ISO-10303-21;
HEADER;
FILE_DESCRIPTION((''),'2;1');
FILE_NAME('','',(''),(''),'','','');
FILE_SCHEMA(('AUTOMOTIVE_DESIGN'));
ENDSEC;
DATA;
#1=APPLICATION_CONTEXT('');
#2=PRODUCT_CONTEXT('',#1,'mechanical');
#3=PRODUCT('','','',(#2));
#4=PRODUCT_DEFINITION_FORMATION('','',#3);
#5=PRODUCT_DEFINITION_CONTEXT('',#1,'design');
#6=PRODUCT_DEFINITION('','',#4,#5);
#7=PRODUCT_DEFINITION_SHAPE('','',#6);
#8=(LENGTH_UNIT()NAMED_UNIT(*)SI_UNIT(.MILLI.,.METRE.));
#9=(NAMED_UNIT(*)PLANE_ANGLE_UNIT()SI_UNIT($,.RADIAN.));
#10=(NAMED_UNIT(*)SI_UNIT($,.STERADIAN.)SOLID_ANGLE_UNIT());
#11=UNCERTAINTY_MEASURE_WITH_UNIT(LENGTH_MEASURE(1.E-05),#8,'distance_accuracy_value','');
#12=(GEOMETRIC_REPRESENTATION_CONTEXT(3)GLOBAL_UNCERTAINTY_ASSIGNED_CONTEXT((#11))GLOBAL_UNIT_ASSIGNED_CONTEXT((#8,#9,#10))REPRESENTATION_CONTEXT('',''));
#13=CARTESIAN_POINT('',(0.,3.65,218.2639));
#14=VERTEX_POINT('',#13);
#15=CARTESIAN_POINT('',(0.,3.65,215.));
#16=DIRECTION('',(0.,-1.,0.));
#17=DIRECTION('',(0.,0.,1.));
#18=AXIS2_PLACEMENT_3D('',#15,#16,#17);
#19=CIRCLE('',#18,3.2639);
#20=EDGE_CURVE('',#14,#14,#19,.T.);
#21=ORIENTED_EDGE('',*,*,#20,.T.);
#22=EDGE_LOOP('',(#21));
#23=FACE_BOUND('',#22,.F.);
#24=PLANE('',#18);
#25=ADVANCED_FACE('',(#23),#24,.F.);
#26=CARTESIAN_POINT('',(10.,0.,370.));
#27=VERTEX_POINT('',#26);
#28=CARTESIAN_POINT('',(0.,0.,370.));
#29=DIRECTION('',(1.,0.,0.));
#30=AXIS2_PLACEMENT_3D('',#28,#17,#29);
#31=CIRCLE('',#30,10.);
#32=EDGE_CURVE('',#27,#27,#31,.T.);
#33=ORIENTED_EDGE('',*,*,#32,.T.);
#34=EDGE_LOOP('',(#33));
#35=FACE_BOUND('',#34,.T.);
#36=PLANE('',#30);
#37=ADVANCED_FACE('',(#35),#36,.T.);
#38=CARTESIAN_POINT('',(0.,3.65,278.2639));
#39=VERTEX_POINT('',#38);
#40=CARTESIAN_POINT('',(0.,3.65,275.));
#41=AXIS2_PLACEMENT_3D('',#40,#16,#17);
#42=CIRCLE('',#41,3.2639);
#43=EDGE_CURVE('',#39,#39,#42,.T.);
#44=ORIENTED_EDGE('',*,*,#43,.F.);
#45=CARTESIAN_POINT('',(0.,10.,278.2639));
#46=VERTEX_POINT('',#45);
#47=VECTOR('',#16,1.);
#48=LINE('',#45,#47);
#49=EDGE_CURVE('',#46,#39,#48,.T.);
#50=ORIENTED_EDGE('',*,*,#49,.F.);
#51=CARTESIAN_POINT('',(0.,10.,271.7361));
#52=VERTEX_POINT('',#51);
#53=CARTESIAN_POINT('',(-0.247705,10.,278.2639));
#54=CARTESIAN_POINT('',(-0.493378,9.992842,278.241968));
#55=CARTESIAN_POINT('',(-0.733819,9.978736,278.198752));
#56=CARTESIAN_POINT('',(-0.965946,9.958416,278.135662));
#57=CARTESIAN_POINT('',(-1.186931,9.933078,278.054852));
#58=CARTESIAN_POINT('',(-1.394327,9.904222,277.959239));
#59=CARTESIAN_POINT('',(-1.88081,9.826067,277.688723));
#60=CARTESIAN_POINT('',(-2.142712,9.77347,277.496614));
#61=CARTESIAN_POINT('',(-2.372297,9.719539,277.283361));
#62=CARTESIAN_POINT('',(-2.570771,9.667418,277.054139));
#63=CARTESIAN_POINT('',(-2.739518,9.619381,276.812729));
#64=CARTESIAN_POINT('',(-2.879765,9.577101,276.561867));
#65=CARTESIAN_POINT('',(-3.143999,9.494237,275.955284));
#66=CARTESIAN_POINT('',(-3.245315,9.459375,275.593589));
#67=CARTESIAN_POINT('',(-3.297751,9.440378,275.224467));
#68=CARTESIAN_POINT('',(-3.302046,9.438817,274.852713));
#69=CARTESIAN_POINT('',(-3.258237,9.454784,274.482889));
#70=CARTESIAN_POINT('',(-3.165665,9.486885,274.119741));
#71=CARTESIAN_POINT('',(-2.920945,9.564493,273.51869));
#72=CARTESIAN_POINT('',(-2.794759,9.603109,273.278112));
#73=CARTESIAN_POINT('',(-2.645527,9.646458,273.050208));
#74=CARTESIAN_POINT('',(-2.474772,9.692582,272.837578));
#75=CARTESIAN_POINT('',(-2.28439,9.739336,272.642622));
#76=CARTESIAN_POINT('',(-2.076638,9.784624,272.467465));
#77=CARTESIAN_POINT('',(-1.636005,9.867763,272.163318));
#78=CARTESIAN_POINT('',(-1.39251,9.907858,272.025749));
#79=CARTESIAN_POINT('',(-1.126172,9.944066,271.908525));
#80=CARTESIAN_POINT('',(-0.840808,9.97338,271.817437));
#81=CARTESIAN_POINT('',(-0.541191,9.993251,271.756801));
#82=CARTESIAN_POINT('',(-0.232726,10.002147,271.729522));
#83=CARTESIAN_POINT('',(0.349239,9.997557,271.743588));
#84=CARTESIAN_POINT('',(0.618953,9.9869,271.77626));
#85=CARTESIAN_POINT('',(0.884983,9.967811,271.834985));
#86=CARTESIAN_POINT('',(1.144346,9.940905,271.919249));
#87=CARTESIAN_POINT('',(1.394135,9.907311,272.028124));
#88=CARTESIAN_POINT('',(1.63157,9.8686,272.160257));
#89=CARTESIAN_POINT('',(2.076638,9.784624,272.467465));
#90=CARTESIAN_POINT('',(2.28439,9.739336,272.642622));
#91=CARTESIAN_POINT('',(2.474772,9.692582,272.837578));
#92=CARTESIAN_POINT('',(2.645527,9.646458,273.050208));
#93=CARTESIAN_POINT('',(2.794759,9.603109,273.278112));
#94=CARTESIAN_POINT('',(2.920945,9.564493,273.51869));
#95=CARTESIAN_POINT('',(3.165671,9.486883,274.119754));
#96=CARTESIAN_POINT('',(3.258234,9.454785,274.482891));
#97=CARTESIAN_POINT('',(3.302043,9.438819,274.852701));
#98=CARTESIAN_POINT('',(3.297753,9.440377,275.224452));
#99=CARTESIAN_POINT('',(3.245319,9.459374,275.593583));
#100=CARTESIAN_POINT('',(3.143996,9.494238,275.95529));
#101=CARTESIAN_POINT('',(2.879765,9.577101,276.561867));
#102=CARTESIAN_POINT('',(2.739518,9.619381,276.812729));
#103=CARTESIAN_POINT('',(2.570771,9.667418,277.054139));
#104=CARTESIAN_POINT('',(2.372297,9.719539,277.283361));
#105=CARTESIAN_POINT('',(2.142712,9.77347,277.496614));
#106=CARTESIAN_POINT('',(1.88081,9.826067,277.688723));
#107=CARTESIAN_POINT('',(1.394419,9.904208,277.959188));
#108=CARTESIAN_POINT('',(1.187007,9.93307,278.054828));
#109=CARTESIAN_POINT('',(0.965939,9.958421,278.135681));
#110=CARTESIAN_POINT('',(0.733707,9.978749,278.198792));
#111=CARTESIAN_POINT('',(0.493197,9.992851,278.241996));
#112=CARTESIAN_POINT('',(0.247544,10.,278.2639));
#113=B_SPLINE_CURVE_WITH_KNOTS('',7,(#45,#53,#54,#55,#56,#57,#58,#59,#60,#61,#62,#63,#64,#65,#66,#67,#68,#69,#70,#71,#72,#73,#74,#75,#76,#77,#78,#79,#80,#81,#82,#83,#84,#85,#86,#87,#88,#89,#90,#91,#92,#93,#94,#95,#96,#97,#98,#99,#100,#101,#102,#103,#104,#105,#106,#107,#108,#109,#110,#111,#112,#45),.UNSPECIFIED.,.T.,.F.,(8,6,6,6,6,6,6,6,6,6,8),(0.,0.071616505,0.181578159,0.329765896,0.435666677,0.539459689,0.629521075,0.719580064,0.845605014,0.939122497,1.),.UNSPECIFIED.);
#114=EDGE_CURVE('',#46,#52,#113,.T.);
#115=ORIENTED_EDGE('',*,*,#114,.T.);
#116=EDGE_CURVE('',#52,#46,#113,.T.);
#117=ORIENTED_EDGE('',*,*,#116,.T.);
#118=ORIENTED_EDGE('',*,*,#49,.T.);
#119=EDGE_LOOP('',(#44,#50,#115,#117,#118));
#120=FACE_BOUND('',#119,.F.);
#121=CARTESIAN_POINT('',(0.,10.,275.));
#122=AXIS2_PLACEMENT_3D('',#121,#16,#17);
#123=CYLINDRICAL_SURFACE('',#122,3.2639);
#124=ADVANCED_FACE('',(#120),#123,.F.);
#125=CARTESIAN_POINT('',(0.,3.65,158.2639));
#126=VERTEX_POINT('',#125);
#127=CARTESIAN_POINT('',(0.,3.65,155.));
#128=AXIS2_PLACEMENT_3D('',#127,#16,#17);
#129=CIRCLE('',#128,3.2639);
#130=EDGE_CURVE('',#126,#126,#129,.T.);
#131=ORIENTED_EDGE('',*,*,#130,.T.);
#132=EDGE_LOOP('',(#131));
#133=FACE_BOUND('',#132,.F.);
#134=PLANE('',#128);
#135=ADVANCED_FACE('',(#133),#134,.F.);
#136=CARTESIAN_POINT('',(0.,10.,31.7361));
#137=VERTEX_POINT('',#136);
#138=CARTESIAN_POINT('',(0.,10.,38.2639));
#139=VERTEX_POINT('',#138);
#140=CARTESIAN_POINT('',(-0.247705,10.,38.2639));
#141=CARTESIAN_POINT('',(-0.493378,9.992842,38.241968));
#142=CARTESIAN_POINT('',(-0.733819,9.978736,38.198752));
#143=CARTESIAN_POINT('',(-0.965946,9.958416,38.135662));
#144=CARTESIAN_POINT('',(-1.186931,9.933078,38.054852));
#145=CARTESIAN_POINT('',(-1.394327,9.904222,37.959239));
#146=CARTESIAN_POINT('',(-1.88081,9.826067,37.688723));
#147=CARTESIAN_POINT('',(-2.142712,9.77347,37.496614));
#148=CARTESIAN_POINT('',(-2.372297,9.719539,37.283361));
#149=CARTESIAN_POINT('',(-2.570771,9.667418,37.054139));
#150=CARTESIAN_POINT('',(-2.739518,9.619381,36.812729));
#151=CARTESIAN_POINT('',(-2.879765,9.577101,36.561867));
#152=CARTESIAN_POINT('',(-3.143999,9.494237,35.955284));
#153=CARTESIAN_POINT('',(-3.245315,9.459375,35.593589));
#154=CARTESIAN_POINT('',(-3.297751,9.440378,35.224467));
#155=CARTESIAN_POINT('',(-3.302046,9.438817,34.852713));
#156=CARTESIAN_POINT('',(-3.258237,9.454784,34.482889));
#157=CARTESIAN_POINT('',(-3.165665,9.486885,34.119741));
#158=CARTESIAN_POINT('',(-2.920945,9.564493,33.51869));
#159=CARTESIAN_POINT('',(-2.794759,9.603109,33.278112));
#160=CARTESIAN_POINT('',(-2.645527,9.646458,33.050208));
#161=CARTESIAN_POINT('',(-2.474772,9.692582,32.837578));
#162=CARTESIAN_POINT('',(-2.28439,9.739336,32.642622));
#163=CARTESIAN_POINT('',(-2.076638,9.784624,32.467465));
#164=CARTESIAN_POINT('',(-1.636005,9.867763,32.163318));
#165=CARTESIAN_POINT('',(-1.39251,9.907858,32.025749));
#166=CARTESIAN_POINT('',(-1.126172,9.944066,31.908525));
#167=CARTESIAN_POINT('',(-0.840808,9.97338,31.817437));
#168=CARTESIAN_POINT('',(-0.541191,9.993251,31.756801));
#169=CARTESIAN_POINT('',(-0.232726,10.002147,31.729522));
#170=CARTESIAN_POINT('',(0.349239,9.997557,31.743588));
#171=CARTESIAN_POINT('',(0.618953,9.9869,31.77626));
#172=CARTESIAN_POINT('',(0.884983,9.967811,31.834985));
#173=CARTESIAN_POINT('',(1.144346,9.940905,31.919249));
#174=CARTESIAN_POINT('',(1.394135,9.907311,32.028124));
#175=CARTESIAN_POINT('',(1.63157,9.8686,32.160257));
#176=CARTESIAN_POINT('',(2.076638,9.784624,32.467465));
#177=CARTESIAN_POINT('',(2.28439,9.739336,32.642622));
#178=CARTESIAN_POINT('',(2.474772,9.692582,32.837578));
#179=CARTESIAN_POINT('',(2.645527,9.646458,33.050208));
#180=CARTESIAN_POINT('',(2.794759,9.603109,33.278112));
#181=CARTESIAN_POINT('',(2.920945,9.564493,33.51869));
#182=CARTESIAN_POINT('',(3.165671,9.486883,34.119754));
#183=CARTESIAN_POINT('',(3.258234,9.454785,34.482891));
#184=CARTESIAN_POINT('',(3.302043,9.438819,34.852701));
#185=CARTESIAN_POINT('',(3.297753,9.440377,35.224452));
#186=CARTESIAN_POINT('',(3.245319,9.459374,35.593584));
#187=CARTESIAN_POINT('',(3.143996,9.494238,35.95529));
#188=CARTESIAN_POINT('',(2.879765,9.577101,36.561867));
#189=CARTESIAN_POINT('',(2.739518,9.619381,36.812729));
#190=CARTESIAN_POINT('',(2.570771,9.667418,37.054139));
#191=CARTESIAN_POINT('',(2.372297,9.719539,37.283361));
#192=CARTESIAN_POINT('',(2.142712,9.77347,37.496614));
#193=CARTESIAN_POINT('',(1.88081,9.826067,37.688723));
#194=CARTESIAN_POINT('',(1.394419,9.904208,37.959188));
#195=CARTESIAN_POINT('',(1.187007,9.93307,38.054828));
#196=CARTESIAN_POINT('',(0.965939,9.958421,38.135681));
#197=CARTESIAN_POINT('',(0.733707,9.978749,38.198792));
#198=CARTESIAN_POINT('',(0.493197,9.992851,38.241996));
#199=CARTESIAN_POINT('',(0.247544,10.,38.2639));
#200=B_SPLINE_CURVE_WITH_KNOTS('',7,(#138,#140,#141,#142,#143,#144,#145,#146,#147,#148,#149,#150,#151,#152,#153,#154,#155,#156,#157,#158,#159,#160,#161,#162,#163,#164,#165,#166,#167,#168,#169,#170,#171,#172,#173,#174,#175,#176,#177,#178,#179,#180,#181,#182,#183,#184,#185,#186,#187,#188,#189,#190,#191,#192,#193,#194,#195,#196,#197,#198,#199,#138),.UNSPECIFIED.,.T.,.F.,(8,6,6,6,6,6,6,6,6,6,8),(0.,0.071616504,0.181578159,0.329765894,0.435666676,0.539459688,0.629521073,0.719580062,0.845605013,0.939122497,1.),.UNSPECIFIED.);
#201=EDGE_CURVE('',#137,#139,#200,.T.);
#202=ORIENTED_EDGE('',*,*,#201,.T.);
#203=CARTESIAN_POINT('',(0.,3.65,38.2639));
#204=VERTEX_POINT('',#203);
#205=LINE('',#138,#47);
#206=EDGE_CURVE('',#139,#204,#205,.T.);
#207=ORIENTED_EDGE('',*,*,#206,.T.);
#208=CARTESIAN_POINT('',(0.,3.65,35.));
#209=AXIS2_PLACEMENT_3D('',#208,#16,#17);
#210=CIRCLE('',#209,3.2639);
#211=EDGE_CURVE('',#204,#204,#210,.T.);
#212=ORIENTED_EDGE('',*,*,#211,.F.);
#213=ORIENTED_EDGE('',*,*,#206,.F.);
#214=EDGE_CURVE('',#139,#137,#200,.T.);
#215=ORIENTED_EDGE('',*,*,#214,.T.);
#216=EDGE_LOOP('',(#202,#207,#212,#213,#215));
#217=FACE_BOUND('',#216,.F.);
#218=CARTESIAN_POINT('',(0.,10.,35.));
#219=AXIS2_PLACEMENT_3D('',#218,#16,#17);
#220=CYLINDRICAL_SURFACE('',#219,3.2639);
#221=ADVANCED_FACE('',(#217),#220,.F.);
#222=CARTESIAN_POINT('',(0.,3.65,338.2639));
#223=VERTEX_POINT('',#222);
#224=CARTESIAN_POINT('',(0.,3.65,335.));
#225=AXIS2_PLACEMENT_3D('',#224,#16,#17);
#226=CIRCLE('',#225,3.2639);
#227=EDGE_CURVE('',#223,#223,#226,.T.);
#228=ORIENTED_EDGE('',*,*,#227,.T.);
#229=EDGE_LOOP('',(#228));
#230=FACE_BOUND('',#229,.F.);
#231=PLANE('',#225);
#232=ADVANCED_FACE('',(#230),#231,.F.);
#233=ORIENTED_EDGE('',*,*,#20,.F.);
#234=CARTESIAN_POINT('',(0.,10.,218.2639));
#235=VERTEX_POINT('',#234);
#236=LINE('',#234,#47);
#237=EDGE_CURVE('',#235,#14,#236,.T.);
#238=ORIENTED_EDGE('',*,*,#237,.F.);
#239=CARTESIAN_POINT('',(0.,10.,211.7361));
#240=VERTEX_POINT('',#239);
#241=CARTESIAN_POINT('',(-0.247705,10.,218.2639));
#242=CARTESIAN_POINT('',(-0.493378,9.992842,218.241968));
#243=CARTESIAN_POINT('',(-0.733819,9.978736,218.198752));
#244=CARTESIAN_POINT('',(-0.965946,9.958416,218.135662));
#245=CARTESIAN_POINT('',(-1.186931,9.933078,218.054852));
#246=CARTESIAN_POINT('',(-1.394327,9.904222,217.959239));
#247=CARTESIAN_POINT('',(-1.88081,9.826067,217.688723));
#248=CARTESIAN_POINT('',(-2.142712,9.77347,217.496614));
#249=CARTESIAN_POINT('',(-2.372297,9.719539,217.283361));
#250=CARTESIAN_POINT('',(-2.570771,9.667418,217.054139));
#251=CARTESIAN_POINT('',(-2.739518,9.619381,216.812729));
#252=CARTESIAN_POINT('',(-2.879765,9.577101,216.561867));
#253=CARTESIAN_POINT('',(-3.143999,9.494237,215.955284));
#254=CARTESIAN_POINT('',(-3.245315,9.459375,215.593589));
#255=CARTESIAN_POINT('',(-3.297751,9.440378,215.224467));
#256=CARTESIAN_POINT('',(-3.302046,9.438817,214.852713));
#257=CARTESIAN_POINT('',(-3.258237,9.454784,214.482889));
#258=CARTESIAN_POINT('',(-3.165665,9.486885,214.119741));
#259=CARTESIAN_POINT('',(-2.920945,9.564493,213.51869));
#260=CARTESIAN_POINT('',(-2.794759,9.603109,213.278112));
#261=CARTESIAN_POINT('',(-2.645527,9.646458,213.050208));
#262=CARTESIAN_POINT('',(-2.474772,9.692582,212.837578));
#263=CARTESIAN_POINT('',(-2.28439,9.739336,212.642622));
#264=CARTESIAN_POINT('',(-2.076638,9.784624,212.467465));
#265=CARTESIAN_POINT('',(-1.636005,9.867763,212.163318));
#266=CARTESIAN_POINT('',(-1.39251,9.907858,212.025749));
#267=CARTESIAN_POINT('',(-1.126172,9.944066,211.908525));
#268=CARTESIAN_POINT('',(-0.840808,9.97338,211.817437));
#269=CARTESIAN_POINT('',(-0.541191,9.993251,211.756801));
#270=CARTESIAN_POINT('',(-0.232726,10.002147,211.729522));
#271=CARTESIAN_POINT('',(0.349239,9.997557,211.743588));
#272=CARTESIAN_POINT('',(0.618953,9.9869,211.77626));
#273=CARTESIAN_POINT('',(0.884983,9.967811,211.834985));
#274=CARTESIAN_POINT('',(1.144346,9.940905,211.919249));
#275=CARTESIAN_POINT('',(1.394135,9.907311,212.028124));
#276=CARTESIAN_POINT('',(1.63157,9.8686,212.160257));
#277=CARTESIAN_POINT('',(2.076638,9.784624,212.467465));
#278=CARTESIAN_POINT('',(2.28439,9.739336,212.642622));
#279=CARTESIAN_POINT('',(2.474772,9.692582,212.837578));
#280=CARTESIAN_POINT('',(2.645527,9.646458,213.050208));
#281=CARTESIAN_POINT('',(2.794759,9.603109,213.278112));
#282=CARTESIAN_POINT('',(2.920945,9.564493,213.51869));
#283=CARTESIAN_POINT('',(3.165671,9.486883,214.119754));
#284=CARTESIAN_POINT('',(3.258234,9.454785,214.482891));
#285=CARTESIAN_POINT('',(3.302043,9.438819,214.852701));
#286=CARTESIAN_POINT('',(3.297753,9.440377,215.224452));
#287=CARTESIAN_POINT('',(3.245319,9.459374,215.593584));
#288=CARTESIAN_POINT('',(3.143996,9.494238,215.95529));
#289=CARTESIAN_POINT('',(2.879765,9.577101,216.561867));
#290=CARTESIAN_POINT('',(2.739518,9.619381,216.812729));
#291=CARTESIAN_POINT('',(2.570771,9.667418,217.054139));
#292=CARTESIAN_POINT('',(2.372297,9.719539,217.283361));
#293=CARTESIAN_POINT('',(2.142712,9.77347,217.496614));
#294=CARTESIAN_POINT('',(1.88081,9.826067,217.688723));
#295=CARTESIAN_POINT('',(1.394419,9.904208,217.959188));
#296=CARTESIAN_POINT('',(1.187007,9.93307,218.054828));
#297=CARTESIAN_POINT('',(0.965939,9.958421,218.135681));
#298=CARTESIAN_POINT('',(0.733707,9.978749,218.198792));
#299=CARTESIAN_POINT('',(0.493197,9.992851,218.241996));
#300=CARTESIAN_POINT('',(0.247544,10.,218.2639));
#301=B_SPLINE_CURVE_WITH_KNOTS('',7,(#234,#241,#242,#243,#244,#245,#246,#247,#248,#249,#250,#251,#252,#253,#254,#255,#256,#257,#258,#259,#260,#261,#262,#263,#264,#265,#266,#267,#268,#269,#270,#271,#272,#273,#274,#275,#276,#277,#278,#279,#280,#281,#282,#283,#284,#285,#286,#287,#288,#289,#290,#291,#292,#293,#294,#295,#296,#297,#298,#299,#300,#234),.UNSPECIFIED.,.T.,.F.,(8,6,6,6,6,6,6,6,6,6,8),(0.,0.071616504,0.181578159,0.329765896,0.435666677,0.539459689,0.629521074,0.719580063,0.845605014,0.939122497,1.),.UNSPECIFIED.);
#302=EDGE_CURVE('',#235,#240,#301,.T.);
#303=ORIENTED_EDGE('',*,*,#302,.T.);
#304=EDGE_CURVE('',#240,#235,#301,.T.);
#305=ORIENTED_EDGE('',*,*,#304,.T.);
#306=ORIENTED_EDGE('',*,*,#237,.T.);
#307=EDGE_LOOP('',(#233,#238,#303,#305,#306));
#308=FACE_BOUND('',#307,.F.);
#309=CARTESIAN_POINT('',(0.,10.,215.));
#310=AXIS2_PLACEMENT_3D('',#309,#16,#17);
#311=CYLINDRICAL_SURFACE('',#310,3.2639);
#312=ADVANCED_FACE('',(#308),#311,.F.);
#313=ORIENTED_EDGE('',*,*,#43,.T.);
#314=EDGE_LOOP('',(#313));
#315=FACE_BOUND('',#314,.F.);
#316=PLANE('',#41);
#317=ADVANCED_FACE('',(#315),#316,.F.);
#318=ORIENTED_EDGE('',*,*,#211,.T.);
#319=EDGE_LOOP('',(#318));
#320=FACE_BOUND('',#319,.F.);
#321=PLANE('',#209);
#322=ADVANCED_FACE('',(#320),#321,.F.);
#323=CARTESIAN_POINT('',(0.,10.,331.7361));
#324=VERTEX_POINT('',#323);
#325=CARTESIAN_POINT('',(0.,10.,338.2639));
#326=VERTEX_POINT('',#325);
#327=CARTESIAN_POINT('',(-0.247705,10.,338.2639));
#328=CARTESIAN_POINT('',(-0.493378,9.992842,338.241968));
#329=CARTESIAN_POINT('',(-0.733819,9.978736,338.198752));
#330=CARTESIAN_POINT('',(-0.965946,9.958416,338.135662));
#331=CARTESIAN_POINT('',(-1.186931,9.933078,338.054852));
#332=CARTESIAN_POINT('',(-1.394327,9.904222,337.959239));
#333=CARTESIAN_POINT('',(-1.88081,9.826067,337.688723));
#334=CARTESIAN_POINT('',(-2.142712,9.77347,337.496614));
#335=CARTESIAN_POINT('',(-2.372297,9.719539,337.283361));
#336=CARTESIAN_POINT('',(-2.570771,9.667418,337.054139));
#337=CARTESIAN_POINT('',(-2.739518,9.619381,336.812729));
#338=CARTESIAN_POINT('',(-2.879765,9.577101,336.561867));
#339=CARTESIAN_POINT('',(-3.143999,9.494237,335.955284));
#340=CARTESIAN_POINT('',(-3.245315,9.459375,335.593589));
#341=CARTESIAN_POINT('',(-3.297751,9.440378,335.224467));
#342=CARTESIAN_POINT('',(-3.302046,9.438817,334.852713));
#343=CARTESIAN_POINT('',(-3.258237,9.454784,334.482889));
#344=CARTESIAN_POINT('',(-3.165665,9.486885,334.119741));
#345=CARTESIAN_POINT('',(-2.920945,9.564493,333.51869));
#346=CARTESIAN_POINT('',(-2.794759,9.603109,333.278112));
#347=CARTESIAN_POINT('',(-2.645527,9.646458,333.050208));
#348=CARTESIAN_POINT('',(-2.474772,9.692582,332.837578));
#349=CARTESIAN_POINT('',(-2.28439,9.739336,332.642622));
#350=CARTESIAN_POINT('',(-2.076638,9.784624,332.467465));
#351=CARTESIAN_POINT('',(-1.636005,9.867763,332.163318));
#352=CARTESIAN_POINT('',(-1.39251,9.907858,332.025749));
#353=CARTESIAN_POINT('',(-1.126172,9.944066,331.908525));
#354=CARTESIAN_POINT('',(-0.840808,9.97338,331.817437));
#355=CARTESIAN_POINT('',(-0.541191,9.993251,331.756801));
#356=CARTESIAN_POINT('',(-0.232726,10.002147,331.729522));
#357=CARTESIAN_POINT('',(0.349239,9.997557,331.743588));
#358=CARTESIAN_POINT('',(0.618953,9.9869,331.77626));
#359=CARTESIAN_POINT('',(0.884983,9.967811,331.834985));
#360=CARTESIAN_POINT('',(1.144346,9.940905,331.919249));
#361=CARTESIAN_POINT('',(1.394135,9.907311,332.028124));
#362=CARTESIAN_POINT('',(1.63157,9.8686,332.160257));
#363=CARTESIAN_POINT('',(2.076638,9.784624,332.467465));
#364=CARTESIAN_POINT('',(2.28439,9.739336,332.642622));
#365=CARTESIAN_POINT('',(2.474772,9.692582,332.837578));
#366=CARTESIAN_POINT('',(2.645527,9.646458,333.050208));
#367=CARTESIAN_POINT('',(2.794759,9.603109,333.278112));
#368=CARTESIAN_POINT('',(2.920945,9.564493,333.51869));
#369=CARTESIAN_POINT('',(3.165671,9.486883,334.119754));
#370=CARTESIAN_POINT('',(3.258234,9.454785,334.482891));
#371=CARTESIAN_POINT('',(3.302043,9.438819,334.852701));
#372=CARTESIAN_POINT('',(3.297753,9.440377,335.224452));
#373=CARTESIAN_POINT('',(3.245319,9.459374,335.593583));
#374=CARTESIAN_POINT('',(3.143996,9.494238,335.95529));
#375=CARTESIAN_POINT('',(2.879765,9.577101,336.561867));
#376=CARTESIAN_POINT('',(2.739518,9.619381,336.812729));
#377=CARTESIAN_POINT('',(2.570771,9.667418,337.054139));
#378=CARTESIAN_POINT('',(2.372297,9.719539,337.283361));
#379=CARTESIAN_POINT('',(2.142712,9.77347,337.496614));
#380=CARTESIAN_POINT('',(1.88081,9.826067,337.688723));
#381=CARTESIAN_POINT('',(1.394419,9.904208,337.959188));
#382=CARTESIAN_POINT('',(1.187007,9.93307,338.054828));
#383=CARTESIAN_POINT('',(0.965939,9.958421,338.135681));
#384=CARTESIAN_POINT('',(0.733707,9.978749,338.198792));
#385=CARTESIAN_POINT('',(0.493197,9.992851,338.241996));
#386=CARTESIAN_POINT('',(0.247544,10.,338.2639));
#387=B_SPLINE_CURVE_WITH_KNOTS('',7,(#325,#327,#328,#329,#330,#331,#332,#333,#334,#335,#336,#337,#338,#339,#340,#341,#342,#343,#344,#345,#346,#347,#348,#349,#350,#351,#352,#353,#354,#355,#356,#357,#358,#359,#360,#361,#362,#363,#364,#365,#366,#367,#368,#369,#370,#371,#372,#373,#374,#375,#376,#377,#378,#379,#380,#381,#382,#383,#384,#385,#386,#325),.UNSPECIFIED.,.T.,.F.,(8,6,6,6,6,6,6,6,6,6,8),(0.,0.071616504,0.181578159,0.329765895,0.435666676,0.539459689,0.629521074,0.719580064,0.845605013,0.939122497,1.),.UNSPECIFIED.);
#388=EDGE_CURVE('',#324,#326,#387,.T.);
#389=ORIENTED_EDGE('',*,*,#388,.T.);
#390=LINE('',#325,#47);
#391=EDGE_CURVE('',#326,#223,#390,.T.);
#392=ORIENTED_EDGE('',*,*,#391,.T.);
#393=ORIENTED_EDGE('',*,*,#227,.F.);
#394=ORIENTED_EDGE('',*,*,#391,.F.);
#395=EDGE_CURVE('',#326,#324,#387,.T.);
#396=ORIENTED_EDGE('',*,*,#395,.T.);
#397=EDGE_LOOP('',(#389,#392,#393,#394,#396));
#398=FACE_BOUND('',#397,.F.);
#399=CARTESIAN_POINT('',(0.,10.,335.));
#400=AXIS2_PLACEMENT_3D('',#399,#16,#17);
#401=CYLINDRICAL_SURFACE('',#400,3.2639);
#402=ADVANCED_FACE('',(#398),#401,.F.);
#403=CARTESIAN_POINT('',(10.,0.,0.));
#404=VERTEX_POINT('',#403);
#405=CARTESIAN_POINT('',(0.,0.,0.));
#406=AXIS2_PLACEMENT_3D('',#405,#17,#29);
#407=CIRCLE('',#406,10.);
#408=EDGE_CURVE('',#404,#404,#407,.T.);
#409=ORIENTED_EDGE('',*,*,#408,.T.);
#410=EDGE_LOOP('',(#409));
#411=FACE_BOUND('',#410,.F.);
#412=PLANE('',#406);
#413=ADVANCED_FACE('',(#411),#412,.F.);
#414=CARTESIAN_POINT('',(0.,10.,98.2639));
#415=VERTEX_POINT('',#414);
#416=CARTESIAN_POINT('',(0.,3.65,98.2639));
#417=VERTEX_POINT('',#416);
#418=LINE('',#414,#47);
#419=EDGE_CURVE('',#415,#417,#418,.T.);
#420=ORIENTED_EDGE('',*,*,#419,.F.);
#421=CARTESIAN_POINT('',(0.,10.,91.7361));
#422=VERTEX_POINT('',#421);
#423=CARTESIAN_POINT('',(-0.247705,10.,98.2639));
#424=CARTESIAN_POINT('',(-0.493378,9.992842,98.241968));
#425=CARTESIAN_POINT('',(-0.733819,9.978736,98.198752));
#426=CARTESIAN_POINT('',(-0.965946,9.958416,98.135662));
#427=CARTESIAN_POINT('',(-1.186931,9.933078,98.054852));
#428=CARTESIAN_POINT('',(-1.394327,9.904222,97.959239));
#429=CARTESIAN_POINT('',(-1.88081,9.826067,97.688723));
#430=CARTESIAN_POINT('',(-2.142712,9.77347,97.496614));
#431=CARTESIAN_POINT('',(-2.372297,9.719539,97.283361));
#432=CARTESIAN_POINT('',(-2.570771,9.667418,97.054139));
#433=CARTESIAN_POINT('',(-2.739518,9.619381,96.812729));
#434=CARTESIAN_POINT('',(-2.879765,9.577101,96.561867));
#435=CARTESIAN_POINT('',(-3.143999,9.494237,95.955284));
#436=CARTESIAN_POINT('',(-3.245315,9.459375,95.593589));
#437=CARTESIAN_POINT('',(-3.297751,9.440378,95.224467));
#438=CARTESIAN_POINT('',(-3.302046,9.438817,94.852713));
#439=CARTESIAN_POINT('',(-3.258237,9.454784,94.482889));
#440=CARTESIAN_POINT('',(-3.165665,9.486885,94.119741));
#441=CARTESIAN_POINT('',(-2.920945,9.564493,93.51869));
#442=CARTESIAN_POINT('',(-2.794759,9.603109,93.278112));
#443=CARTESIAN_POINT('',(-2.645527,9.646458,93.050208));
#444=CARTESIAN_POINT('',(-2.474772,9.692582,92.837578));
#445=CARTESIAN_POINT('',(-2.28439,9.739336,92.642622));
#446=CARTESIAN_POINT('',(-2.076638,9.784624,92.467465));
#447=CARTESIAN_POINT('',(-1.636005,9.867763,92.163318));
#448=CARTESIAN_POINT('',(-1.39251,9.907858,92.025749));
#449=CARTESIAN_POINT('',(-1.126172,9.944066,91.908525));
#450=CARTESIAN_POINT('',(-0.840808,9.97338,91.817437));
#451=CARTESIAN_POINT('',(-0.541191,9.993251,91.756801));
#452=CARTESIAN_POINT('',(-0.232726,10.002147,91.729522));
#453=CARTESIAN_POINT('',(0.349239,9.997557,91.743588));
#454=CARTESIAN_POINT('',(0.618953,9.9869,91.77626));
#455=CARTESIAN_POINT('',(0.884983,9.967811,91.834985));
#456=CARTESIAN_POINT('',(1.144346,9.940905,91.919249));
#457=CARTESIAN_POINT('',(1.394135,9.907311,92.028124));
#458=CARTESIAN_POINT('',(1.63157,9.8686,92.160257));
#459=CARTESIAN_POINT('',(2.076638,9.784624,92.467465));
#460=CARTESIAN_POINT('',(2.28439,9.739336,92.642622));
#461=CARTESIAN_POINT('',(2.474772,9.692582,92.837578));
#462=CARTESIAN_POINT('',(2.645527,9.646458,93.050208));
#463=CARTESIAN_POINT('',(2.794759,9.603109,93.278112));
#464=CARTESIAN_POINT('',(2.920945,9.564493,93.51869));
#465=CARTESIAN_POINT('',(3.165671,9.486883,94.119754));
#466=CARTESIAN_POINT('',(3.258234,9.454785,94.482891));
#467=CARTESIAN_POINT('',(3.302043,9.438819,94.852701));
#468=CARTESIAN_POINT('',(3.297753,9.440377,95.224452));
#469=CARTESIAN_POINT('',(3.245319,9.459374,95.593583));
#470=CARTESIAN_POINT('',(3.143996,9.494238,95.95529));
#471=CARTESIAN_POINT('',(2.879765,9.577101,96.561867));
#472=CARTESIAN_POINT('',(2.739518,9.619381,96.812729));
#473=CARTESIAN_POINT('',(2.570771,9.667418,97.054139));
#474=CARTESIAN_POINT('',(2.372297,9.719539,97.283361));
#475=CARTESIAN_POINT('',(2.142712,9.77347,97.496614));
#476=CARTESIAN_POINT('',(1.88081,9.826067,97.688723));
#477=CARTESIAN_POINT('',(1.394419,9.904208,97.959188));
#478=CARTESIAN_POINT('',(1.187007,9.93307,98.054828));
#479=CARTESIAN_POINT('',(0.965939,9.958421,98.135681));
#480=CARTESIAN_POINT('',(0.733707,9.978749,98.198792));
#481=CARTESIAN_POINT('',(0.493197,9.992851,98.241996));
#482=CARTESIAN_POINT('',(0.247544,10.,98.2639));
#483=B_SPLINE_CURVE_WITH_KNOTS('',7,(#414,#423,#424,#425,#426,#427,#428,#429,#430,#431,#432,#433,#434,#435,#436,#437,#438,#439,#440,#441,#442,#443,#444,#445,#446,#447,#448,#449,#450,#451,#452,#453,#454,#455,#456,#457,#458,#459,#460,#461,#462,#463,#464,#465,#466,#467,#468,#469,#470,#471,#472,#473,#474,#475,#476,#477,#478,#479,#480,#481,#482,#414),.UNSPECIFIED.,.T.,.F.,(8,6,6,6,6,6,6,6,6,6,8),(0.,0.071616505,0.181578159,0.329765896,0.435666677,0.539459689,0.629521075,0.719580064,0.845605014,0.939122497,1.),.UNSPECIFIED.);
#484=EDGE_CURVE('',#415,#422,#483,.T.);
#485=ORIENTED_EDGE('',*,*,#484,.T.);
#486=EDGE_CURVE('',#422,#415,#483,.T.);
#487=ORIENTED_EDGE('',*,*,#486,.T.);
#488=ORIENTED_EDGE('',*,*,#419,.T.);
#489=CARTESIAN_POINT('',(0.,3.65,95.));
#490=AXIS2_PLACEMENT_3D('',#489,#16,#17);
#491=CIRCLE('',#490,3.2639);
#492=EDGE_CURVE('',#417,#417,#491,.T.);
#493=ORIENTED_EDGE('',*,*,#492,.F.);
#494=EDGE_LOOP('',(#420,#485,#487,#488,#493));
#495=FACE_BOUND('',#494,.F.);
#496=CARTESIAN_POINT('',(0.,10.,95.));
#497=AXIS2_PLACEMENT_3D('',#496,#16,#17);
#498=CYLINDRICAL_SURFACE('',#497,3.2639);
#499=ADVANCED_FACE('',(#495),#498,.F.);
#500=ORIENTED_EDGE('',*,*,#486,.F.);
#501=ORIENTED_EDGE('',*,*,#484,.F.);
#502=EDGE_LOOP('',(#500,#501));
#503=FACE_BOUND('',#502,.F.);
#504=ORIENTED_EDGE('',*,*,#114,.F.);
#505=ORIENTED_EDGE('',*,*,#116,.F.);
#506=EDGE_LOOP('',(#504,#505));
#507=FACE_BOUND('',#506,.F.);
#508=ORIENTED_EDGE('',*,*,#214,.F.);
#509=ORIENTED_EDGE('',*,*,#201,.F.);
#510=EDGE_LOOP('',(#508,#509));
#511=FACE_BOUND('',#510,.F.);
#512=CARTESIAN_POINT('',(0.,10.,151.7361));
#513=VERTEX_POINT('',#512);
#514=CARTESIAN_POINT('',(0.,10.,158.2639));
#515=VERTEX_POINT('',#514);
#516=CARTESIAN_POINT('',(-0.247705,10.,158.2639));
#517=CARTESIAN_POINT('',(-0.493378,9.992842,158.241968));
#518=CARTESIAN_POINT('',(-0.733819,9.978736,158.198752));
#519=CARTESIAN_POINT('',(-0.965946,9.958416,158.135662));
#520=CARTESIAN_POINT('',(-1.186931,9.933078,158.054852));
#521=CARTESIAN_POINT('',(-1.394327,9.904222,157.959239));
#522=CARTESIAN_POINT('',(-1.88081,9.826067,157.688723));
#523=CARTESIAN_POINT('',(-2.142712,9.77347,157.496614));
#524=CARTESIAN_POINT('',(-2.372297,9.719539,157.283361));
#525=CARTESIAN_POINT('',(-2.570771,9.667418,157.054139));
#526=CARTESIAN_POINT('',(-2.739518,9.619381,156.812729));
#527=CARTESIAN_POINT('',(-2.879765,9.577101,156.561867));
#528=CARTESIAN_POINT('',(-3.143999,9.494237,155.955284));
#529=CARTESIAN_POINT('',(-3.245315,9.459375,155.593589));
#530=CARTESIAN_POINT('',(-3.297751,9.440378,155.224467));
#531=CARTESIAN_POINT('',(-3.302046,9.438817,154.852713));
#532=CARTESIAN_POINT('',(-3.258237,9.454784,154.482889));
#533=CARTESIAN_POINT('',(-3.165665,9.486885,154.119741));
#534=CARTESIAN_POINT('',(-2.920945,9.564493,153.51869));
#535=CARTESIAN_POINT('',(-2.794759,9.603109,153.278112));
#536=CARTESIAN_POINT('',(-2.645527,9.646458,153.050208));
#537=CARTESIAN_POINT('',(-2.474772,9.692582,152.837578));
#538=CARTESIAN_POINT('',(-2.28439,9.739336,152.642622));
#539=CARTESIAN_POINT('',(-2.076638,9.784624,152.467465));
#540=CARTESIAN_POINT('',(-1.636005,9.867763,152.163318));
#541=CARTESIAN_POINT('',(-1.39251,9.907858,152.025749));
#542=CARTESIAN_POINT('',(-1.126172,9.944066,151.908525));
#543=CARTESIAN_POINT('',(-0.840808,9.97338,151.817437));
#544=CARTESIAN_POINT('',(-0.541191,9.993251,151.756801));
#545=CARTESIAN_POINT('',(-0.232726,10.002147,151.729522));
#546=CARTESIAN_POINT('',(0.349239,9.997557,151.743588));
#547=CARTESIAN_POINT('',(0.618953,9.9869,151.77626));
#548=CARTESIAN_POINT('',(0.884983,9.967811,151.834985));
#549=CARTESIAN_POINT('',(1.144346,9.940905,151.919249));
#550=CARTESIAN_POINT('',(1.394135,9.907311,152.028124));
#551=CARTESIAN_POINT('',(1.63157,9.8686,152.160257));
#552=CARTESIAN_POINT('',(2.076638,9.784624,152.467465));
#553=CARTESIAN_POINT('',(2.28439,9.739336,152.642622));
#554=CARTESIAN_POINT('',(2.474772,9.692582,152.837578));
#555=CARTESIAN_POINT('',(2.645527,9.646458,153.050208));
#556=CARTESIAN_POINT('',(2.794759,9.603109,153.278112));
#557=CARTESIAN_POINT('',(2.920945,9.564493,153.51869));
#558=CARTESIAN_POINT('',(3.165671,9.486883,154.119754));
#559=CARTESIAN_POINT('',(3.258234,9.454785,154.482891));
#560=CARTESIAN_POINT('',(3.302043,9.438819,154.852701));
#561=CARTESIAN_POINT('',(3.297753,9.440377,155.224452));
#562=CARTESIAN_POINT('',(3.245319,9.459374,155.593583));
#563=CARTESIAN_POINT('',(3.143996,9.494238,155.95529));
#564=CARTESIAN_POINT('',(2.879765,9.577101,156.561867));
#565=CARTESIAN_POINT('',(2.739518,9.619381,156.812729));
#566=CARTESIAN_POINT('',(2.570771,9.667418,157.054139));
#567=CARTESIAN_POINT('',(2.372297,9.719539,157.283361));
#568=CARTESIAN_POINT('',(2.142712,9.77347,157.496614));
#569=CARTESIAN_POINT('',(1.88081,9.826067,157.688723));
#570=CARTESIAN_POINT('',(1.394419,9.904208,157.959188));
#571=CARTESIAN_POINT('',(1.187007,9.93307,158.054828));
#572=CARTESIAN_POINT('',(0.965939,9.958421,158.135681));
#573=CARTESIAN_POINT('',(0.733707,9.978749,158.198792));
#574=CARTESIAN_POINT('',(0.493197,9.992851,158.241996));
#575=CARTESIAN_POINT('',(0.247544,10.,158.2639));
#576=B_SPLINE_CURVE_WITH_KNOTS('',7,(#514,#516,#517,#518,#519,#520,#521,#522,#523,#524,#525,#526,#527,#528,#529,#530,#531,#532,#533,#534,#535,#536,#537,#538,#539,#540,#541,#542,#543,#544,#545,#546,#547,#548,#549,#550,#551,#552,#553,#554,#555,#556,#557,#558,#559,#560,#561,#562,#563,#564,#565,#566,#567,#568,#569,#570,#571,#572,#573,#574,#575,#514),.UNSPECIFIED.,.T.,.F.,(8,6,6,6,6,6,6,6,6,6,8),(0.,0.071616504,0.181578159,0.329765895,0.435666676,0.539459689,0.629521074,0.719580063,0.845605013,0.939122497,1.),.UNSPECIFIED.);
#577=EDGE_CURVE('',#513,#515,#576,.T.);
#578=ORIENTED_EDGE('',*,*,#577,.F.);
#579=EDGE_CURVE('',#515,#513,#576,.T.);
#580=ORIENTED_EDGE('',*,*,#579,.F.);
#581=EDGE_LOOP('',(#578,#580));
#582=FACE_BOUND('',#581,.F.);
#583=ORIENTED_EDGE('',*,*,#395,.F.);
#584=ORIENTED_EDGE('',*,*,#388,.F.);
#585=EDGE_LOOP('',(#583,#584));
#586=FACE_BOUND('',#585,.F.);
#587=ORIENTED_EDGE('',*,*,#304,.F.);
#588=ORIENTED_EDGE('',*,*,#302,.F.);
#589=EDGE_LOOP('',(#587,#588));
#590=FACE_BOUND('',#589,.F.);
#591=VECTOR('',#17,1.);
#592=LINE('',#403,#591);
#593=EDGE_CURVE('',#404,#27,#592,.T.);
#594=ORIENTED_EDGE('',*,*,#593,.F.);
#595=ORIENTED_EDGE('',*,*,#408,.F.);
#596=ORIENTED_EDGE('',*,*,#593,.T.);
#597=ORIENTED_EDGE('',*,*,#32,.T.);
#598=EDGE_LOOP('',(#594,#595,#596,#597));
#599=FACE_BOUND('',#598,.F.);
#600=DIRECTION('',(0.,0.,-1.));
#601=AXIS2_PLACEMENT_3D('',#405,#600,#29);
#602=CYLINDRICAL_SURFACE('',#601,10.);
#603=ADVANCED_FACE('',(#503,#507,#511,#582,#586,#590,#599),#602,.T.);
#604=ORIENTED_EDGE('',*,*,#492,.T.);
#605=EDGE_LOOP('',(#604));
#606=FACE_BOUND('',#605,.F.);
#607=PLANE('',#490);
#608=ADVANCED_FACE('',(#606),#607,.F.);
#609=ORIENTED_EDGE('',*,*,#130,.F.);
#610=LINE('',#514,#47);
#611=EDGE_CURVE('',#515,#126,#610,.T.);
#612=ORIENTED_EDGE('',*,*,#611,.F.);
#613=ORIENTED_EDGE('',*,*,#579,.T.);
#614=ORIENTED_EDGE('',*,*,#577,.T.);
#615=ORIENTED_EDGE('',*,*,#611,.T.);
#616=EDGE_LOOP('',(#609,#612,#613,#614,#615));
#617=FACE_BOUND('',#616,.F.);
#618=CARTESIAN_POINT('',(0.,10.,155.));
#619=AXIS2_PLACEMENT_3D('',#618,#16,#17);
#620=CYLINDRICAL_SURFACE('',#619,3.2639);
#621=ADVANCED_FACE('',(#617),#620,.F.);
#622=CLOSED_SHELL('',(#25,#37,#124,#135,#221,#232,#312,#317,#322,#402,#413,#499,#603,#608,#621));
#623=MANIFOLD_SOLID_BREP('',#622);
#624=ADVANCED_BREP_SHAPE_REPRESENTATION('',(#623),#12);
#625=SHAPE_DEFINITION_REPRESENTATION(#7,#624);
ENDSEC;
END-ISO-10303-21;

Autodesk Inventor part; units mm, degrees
ref_plane "YZ Plane" through (0, 0, 0) normal (1, 0, 0) x (0, 1, 0)
ref_plane "XZ Plane" through (0, 0, 0) normal (0, 1, 0) x (-1, 0, 0)
sketch "Sketch1" plane through (0, 0, 0) normal (0, 0, 1) x (1, 0, 0)
  circle A0 centre (0, 0) radius 10
  dimension "d0" = 20
extrude "Extrusion1" add sketch "Sketch1" along normal blind 370
sketch "Sketch2" plane through (0, 0, 370) normal (0, 0, 1) x (1, 0, 0)
  circle A0 centre (0, 0) radius 10 projected
  point P0 (0, 10)
ref_plane "Work Plane1" through (0, 10, 370) normal (0, 1, 0) x (-1, 0, 0)
sketch "Sketch3" plane through (0, 10, 370) normal (0, 1, 0) x (-1, 0, 0)
  line L0 (10, 0) -> (-10, 0) projected
  line L1 (0, 0) -> (0, -7.8686) construction
  point P0 (0, -370)
  point P1 (0, -35)
  point P2 (0, -95)
  point P3 (0, -155)
  point P4 (0, -215)
  point P5 (0, -275)
  point P6 (0, -335)
  dimension "d3" = 35
  dimension "d6" = 60
hole "Hole1" at (0, 10, 335) at (0, 10, 275) at (0, 10, 215) at (0, 10, 155) at (0, 10, 95) at (0, 10, 35) direction (0, -1, 0) diameter 6.5278 depth 6.35
properties part number "diy-rail_370mm"
